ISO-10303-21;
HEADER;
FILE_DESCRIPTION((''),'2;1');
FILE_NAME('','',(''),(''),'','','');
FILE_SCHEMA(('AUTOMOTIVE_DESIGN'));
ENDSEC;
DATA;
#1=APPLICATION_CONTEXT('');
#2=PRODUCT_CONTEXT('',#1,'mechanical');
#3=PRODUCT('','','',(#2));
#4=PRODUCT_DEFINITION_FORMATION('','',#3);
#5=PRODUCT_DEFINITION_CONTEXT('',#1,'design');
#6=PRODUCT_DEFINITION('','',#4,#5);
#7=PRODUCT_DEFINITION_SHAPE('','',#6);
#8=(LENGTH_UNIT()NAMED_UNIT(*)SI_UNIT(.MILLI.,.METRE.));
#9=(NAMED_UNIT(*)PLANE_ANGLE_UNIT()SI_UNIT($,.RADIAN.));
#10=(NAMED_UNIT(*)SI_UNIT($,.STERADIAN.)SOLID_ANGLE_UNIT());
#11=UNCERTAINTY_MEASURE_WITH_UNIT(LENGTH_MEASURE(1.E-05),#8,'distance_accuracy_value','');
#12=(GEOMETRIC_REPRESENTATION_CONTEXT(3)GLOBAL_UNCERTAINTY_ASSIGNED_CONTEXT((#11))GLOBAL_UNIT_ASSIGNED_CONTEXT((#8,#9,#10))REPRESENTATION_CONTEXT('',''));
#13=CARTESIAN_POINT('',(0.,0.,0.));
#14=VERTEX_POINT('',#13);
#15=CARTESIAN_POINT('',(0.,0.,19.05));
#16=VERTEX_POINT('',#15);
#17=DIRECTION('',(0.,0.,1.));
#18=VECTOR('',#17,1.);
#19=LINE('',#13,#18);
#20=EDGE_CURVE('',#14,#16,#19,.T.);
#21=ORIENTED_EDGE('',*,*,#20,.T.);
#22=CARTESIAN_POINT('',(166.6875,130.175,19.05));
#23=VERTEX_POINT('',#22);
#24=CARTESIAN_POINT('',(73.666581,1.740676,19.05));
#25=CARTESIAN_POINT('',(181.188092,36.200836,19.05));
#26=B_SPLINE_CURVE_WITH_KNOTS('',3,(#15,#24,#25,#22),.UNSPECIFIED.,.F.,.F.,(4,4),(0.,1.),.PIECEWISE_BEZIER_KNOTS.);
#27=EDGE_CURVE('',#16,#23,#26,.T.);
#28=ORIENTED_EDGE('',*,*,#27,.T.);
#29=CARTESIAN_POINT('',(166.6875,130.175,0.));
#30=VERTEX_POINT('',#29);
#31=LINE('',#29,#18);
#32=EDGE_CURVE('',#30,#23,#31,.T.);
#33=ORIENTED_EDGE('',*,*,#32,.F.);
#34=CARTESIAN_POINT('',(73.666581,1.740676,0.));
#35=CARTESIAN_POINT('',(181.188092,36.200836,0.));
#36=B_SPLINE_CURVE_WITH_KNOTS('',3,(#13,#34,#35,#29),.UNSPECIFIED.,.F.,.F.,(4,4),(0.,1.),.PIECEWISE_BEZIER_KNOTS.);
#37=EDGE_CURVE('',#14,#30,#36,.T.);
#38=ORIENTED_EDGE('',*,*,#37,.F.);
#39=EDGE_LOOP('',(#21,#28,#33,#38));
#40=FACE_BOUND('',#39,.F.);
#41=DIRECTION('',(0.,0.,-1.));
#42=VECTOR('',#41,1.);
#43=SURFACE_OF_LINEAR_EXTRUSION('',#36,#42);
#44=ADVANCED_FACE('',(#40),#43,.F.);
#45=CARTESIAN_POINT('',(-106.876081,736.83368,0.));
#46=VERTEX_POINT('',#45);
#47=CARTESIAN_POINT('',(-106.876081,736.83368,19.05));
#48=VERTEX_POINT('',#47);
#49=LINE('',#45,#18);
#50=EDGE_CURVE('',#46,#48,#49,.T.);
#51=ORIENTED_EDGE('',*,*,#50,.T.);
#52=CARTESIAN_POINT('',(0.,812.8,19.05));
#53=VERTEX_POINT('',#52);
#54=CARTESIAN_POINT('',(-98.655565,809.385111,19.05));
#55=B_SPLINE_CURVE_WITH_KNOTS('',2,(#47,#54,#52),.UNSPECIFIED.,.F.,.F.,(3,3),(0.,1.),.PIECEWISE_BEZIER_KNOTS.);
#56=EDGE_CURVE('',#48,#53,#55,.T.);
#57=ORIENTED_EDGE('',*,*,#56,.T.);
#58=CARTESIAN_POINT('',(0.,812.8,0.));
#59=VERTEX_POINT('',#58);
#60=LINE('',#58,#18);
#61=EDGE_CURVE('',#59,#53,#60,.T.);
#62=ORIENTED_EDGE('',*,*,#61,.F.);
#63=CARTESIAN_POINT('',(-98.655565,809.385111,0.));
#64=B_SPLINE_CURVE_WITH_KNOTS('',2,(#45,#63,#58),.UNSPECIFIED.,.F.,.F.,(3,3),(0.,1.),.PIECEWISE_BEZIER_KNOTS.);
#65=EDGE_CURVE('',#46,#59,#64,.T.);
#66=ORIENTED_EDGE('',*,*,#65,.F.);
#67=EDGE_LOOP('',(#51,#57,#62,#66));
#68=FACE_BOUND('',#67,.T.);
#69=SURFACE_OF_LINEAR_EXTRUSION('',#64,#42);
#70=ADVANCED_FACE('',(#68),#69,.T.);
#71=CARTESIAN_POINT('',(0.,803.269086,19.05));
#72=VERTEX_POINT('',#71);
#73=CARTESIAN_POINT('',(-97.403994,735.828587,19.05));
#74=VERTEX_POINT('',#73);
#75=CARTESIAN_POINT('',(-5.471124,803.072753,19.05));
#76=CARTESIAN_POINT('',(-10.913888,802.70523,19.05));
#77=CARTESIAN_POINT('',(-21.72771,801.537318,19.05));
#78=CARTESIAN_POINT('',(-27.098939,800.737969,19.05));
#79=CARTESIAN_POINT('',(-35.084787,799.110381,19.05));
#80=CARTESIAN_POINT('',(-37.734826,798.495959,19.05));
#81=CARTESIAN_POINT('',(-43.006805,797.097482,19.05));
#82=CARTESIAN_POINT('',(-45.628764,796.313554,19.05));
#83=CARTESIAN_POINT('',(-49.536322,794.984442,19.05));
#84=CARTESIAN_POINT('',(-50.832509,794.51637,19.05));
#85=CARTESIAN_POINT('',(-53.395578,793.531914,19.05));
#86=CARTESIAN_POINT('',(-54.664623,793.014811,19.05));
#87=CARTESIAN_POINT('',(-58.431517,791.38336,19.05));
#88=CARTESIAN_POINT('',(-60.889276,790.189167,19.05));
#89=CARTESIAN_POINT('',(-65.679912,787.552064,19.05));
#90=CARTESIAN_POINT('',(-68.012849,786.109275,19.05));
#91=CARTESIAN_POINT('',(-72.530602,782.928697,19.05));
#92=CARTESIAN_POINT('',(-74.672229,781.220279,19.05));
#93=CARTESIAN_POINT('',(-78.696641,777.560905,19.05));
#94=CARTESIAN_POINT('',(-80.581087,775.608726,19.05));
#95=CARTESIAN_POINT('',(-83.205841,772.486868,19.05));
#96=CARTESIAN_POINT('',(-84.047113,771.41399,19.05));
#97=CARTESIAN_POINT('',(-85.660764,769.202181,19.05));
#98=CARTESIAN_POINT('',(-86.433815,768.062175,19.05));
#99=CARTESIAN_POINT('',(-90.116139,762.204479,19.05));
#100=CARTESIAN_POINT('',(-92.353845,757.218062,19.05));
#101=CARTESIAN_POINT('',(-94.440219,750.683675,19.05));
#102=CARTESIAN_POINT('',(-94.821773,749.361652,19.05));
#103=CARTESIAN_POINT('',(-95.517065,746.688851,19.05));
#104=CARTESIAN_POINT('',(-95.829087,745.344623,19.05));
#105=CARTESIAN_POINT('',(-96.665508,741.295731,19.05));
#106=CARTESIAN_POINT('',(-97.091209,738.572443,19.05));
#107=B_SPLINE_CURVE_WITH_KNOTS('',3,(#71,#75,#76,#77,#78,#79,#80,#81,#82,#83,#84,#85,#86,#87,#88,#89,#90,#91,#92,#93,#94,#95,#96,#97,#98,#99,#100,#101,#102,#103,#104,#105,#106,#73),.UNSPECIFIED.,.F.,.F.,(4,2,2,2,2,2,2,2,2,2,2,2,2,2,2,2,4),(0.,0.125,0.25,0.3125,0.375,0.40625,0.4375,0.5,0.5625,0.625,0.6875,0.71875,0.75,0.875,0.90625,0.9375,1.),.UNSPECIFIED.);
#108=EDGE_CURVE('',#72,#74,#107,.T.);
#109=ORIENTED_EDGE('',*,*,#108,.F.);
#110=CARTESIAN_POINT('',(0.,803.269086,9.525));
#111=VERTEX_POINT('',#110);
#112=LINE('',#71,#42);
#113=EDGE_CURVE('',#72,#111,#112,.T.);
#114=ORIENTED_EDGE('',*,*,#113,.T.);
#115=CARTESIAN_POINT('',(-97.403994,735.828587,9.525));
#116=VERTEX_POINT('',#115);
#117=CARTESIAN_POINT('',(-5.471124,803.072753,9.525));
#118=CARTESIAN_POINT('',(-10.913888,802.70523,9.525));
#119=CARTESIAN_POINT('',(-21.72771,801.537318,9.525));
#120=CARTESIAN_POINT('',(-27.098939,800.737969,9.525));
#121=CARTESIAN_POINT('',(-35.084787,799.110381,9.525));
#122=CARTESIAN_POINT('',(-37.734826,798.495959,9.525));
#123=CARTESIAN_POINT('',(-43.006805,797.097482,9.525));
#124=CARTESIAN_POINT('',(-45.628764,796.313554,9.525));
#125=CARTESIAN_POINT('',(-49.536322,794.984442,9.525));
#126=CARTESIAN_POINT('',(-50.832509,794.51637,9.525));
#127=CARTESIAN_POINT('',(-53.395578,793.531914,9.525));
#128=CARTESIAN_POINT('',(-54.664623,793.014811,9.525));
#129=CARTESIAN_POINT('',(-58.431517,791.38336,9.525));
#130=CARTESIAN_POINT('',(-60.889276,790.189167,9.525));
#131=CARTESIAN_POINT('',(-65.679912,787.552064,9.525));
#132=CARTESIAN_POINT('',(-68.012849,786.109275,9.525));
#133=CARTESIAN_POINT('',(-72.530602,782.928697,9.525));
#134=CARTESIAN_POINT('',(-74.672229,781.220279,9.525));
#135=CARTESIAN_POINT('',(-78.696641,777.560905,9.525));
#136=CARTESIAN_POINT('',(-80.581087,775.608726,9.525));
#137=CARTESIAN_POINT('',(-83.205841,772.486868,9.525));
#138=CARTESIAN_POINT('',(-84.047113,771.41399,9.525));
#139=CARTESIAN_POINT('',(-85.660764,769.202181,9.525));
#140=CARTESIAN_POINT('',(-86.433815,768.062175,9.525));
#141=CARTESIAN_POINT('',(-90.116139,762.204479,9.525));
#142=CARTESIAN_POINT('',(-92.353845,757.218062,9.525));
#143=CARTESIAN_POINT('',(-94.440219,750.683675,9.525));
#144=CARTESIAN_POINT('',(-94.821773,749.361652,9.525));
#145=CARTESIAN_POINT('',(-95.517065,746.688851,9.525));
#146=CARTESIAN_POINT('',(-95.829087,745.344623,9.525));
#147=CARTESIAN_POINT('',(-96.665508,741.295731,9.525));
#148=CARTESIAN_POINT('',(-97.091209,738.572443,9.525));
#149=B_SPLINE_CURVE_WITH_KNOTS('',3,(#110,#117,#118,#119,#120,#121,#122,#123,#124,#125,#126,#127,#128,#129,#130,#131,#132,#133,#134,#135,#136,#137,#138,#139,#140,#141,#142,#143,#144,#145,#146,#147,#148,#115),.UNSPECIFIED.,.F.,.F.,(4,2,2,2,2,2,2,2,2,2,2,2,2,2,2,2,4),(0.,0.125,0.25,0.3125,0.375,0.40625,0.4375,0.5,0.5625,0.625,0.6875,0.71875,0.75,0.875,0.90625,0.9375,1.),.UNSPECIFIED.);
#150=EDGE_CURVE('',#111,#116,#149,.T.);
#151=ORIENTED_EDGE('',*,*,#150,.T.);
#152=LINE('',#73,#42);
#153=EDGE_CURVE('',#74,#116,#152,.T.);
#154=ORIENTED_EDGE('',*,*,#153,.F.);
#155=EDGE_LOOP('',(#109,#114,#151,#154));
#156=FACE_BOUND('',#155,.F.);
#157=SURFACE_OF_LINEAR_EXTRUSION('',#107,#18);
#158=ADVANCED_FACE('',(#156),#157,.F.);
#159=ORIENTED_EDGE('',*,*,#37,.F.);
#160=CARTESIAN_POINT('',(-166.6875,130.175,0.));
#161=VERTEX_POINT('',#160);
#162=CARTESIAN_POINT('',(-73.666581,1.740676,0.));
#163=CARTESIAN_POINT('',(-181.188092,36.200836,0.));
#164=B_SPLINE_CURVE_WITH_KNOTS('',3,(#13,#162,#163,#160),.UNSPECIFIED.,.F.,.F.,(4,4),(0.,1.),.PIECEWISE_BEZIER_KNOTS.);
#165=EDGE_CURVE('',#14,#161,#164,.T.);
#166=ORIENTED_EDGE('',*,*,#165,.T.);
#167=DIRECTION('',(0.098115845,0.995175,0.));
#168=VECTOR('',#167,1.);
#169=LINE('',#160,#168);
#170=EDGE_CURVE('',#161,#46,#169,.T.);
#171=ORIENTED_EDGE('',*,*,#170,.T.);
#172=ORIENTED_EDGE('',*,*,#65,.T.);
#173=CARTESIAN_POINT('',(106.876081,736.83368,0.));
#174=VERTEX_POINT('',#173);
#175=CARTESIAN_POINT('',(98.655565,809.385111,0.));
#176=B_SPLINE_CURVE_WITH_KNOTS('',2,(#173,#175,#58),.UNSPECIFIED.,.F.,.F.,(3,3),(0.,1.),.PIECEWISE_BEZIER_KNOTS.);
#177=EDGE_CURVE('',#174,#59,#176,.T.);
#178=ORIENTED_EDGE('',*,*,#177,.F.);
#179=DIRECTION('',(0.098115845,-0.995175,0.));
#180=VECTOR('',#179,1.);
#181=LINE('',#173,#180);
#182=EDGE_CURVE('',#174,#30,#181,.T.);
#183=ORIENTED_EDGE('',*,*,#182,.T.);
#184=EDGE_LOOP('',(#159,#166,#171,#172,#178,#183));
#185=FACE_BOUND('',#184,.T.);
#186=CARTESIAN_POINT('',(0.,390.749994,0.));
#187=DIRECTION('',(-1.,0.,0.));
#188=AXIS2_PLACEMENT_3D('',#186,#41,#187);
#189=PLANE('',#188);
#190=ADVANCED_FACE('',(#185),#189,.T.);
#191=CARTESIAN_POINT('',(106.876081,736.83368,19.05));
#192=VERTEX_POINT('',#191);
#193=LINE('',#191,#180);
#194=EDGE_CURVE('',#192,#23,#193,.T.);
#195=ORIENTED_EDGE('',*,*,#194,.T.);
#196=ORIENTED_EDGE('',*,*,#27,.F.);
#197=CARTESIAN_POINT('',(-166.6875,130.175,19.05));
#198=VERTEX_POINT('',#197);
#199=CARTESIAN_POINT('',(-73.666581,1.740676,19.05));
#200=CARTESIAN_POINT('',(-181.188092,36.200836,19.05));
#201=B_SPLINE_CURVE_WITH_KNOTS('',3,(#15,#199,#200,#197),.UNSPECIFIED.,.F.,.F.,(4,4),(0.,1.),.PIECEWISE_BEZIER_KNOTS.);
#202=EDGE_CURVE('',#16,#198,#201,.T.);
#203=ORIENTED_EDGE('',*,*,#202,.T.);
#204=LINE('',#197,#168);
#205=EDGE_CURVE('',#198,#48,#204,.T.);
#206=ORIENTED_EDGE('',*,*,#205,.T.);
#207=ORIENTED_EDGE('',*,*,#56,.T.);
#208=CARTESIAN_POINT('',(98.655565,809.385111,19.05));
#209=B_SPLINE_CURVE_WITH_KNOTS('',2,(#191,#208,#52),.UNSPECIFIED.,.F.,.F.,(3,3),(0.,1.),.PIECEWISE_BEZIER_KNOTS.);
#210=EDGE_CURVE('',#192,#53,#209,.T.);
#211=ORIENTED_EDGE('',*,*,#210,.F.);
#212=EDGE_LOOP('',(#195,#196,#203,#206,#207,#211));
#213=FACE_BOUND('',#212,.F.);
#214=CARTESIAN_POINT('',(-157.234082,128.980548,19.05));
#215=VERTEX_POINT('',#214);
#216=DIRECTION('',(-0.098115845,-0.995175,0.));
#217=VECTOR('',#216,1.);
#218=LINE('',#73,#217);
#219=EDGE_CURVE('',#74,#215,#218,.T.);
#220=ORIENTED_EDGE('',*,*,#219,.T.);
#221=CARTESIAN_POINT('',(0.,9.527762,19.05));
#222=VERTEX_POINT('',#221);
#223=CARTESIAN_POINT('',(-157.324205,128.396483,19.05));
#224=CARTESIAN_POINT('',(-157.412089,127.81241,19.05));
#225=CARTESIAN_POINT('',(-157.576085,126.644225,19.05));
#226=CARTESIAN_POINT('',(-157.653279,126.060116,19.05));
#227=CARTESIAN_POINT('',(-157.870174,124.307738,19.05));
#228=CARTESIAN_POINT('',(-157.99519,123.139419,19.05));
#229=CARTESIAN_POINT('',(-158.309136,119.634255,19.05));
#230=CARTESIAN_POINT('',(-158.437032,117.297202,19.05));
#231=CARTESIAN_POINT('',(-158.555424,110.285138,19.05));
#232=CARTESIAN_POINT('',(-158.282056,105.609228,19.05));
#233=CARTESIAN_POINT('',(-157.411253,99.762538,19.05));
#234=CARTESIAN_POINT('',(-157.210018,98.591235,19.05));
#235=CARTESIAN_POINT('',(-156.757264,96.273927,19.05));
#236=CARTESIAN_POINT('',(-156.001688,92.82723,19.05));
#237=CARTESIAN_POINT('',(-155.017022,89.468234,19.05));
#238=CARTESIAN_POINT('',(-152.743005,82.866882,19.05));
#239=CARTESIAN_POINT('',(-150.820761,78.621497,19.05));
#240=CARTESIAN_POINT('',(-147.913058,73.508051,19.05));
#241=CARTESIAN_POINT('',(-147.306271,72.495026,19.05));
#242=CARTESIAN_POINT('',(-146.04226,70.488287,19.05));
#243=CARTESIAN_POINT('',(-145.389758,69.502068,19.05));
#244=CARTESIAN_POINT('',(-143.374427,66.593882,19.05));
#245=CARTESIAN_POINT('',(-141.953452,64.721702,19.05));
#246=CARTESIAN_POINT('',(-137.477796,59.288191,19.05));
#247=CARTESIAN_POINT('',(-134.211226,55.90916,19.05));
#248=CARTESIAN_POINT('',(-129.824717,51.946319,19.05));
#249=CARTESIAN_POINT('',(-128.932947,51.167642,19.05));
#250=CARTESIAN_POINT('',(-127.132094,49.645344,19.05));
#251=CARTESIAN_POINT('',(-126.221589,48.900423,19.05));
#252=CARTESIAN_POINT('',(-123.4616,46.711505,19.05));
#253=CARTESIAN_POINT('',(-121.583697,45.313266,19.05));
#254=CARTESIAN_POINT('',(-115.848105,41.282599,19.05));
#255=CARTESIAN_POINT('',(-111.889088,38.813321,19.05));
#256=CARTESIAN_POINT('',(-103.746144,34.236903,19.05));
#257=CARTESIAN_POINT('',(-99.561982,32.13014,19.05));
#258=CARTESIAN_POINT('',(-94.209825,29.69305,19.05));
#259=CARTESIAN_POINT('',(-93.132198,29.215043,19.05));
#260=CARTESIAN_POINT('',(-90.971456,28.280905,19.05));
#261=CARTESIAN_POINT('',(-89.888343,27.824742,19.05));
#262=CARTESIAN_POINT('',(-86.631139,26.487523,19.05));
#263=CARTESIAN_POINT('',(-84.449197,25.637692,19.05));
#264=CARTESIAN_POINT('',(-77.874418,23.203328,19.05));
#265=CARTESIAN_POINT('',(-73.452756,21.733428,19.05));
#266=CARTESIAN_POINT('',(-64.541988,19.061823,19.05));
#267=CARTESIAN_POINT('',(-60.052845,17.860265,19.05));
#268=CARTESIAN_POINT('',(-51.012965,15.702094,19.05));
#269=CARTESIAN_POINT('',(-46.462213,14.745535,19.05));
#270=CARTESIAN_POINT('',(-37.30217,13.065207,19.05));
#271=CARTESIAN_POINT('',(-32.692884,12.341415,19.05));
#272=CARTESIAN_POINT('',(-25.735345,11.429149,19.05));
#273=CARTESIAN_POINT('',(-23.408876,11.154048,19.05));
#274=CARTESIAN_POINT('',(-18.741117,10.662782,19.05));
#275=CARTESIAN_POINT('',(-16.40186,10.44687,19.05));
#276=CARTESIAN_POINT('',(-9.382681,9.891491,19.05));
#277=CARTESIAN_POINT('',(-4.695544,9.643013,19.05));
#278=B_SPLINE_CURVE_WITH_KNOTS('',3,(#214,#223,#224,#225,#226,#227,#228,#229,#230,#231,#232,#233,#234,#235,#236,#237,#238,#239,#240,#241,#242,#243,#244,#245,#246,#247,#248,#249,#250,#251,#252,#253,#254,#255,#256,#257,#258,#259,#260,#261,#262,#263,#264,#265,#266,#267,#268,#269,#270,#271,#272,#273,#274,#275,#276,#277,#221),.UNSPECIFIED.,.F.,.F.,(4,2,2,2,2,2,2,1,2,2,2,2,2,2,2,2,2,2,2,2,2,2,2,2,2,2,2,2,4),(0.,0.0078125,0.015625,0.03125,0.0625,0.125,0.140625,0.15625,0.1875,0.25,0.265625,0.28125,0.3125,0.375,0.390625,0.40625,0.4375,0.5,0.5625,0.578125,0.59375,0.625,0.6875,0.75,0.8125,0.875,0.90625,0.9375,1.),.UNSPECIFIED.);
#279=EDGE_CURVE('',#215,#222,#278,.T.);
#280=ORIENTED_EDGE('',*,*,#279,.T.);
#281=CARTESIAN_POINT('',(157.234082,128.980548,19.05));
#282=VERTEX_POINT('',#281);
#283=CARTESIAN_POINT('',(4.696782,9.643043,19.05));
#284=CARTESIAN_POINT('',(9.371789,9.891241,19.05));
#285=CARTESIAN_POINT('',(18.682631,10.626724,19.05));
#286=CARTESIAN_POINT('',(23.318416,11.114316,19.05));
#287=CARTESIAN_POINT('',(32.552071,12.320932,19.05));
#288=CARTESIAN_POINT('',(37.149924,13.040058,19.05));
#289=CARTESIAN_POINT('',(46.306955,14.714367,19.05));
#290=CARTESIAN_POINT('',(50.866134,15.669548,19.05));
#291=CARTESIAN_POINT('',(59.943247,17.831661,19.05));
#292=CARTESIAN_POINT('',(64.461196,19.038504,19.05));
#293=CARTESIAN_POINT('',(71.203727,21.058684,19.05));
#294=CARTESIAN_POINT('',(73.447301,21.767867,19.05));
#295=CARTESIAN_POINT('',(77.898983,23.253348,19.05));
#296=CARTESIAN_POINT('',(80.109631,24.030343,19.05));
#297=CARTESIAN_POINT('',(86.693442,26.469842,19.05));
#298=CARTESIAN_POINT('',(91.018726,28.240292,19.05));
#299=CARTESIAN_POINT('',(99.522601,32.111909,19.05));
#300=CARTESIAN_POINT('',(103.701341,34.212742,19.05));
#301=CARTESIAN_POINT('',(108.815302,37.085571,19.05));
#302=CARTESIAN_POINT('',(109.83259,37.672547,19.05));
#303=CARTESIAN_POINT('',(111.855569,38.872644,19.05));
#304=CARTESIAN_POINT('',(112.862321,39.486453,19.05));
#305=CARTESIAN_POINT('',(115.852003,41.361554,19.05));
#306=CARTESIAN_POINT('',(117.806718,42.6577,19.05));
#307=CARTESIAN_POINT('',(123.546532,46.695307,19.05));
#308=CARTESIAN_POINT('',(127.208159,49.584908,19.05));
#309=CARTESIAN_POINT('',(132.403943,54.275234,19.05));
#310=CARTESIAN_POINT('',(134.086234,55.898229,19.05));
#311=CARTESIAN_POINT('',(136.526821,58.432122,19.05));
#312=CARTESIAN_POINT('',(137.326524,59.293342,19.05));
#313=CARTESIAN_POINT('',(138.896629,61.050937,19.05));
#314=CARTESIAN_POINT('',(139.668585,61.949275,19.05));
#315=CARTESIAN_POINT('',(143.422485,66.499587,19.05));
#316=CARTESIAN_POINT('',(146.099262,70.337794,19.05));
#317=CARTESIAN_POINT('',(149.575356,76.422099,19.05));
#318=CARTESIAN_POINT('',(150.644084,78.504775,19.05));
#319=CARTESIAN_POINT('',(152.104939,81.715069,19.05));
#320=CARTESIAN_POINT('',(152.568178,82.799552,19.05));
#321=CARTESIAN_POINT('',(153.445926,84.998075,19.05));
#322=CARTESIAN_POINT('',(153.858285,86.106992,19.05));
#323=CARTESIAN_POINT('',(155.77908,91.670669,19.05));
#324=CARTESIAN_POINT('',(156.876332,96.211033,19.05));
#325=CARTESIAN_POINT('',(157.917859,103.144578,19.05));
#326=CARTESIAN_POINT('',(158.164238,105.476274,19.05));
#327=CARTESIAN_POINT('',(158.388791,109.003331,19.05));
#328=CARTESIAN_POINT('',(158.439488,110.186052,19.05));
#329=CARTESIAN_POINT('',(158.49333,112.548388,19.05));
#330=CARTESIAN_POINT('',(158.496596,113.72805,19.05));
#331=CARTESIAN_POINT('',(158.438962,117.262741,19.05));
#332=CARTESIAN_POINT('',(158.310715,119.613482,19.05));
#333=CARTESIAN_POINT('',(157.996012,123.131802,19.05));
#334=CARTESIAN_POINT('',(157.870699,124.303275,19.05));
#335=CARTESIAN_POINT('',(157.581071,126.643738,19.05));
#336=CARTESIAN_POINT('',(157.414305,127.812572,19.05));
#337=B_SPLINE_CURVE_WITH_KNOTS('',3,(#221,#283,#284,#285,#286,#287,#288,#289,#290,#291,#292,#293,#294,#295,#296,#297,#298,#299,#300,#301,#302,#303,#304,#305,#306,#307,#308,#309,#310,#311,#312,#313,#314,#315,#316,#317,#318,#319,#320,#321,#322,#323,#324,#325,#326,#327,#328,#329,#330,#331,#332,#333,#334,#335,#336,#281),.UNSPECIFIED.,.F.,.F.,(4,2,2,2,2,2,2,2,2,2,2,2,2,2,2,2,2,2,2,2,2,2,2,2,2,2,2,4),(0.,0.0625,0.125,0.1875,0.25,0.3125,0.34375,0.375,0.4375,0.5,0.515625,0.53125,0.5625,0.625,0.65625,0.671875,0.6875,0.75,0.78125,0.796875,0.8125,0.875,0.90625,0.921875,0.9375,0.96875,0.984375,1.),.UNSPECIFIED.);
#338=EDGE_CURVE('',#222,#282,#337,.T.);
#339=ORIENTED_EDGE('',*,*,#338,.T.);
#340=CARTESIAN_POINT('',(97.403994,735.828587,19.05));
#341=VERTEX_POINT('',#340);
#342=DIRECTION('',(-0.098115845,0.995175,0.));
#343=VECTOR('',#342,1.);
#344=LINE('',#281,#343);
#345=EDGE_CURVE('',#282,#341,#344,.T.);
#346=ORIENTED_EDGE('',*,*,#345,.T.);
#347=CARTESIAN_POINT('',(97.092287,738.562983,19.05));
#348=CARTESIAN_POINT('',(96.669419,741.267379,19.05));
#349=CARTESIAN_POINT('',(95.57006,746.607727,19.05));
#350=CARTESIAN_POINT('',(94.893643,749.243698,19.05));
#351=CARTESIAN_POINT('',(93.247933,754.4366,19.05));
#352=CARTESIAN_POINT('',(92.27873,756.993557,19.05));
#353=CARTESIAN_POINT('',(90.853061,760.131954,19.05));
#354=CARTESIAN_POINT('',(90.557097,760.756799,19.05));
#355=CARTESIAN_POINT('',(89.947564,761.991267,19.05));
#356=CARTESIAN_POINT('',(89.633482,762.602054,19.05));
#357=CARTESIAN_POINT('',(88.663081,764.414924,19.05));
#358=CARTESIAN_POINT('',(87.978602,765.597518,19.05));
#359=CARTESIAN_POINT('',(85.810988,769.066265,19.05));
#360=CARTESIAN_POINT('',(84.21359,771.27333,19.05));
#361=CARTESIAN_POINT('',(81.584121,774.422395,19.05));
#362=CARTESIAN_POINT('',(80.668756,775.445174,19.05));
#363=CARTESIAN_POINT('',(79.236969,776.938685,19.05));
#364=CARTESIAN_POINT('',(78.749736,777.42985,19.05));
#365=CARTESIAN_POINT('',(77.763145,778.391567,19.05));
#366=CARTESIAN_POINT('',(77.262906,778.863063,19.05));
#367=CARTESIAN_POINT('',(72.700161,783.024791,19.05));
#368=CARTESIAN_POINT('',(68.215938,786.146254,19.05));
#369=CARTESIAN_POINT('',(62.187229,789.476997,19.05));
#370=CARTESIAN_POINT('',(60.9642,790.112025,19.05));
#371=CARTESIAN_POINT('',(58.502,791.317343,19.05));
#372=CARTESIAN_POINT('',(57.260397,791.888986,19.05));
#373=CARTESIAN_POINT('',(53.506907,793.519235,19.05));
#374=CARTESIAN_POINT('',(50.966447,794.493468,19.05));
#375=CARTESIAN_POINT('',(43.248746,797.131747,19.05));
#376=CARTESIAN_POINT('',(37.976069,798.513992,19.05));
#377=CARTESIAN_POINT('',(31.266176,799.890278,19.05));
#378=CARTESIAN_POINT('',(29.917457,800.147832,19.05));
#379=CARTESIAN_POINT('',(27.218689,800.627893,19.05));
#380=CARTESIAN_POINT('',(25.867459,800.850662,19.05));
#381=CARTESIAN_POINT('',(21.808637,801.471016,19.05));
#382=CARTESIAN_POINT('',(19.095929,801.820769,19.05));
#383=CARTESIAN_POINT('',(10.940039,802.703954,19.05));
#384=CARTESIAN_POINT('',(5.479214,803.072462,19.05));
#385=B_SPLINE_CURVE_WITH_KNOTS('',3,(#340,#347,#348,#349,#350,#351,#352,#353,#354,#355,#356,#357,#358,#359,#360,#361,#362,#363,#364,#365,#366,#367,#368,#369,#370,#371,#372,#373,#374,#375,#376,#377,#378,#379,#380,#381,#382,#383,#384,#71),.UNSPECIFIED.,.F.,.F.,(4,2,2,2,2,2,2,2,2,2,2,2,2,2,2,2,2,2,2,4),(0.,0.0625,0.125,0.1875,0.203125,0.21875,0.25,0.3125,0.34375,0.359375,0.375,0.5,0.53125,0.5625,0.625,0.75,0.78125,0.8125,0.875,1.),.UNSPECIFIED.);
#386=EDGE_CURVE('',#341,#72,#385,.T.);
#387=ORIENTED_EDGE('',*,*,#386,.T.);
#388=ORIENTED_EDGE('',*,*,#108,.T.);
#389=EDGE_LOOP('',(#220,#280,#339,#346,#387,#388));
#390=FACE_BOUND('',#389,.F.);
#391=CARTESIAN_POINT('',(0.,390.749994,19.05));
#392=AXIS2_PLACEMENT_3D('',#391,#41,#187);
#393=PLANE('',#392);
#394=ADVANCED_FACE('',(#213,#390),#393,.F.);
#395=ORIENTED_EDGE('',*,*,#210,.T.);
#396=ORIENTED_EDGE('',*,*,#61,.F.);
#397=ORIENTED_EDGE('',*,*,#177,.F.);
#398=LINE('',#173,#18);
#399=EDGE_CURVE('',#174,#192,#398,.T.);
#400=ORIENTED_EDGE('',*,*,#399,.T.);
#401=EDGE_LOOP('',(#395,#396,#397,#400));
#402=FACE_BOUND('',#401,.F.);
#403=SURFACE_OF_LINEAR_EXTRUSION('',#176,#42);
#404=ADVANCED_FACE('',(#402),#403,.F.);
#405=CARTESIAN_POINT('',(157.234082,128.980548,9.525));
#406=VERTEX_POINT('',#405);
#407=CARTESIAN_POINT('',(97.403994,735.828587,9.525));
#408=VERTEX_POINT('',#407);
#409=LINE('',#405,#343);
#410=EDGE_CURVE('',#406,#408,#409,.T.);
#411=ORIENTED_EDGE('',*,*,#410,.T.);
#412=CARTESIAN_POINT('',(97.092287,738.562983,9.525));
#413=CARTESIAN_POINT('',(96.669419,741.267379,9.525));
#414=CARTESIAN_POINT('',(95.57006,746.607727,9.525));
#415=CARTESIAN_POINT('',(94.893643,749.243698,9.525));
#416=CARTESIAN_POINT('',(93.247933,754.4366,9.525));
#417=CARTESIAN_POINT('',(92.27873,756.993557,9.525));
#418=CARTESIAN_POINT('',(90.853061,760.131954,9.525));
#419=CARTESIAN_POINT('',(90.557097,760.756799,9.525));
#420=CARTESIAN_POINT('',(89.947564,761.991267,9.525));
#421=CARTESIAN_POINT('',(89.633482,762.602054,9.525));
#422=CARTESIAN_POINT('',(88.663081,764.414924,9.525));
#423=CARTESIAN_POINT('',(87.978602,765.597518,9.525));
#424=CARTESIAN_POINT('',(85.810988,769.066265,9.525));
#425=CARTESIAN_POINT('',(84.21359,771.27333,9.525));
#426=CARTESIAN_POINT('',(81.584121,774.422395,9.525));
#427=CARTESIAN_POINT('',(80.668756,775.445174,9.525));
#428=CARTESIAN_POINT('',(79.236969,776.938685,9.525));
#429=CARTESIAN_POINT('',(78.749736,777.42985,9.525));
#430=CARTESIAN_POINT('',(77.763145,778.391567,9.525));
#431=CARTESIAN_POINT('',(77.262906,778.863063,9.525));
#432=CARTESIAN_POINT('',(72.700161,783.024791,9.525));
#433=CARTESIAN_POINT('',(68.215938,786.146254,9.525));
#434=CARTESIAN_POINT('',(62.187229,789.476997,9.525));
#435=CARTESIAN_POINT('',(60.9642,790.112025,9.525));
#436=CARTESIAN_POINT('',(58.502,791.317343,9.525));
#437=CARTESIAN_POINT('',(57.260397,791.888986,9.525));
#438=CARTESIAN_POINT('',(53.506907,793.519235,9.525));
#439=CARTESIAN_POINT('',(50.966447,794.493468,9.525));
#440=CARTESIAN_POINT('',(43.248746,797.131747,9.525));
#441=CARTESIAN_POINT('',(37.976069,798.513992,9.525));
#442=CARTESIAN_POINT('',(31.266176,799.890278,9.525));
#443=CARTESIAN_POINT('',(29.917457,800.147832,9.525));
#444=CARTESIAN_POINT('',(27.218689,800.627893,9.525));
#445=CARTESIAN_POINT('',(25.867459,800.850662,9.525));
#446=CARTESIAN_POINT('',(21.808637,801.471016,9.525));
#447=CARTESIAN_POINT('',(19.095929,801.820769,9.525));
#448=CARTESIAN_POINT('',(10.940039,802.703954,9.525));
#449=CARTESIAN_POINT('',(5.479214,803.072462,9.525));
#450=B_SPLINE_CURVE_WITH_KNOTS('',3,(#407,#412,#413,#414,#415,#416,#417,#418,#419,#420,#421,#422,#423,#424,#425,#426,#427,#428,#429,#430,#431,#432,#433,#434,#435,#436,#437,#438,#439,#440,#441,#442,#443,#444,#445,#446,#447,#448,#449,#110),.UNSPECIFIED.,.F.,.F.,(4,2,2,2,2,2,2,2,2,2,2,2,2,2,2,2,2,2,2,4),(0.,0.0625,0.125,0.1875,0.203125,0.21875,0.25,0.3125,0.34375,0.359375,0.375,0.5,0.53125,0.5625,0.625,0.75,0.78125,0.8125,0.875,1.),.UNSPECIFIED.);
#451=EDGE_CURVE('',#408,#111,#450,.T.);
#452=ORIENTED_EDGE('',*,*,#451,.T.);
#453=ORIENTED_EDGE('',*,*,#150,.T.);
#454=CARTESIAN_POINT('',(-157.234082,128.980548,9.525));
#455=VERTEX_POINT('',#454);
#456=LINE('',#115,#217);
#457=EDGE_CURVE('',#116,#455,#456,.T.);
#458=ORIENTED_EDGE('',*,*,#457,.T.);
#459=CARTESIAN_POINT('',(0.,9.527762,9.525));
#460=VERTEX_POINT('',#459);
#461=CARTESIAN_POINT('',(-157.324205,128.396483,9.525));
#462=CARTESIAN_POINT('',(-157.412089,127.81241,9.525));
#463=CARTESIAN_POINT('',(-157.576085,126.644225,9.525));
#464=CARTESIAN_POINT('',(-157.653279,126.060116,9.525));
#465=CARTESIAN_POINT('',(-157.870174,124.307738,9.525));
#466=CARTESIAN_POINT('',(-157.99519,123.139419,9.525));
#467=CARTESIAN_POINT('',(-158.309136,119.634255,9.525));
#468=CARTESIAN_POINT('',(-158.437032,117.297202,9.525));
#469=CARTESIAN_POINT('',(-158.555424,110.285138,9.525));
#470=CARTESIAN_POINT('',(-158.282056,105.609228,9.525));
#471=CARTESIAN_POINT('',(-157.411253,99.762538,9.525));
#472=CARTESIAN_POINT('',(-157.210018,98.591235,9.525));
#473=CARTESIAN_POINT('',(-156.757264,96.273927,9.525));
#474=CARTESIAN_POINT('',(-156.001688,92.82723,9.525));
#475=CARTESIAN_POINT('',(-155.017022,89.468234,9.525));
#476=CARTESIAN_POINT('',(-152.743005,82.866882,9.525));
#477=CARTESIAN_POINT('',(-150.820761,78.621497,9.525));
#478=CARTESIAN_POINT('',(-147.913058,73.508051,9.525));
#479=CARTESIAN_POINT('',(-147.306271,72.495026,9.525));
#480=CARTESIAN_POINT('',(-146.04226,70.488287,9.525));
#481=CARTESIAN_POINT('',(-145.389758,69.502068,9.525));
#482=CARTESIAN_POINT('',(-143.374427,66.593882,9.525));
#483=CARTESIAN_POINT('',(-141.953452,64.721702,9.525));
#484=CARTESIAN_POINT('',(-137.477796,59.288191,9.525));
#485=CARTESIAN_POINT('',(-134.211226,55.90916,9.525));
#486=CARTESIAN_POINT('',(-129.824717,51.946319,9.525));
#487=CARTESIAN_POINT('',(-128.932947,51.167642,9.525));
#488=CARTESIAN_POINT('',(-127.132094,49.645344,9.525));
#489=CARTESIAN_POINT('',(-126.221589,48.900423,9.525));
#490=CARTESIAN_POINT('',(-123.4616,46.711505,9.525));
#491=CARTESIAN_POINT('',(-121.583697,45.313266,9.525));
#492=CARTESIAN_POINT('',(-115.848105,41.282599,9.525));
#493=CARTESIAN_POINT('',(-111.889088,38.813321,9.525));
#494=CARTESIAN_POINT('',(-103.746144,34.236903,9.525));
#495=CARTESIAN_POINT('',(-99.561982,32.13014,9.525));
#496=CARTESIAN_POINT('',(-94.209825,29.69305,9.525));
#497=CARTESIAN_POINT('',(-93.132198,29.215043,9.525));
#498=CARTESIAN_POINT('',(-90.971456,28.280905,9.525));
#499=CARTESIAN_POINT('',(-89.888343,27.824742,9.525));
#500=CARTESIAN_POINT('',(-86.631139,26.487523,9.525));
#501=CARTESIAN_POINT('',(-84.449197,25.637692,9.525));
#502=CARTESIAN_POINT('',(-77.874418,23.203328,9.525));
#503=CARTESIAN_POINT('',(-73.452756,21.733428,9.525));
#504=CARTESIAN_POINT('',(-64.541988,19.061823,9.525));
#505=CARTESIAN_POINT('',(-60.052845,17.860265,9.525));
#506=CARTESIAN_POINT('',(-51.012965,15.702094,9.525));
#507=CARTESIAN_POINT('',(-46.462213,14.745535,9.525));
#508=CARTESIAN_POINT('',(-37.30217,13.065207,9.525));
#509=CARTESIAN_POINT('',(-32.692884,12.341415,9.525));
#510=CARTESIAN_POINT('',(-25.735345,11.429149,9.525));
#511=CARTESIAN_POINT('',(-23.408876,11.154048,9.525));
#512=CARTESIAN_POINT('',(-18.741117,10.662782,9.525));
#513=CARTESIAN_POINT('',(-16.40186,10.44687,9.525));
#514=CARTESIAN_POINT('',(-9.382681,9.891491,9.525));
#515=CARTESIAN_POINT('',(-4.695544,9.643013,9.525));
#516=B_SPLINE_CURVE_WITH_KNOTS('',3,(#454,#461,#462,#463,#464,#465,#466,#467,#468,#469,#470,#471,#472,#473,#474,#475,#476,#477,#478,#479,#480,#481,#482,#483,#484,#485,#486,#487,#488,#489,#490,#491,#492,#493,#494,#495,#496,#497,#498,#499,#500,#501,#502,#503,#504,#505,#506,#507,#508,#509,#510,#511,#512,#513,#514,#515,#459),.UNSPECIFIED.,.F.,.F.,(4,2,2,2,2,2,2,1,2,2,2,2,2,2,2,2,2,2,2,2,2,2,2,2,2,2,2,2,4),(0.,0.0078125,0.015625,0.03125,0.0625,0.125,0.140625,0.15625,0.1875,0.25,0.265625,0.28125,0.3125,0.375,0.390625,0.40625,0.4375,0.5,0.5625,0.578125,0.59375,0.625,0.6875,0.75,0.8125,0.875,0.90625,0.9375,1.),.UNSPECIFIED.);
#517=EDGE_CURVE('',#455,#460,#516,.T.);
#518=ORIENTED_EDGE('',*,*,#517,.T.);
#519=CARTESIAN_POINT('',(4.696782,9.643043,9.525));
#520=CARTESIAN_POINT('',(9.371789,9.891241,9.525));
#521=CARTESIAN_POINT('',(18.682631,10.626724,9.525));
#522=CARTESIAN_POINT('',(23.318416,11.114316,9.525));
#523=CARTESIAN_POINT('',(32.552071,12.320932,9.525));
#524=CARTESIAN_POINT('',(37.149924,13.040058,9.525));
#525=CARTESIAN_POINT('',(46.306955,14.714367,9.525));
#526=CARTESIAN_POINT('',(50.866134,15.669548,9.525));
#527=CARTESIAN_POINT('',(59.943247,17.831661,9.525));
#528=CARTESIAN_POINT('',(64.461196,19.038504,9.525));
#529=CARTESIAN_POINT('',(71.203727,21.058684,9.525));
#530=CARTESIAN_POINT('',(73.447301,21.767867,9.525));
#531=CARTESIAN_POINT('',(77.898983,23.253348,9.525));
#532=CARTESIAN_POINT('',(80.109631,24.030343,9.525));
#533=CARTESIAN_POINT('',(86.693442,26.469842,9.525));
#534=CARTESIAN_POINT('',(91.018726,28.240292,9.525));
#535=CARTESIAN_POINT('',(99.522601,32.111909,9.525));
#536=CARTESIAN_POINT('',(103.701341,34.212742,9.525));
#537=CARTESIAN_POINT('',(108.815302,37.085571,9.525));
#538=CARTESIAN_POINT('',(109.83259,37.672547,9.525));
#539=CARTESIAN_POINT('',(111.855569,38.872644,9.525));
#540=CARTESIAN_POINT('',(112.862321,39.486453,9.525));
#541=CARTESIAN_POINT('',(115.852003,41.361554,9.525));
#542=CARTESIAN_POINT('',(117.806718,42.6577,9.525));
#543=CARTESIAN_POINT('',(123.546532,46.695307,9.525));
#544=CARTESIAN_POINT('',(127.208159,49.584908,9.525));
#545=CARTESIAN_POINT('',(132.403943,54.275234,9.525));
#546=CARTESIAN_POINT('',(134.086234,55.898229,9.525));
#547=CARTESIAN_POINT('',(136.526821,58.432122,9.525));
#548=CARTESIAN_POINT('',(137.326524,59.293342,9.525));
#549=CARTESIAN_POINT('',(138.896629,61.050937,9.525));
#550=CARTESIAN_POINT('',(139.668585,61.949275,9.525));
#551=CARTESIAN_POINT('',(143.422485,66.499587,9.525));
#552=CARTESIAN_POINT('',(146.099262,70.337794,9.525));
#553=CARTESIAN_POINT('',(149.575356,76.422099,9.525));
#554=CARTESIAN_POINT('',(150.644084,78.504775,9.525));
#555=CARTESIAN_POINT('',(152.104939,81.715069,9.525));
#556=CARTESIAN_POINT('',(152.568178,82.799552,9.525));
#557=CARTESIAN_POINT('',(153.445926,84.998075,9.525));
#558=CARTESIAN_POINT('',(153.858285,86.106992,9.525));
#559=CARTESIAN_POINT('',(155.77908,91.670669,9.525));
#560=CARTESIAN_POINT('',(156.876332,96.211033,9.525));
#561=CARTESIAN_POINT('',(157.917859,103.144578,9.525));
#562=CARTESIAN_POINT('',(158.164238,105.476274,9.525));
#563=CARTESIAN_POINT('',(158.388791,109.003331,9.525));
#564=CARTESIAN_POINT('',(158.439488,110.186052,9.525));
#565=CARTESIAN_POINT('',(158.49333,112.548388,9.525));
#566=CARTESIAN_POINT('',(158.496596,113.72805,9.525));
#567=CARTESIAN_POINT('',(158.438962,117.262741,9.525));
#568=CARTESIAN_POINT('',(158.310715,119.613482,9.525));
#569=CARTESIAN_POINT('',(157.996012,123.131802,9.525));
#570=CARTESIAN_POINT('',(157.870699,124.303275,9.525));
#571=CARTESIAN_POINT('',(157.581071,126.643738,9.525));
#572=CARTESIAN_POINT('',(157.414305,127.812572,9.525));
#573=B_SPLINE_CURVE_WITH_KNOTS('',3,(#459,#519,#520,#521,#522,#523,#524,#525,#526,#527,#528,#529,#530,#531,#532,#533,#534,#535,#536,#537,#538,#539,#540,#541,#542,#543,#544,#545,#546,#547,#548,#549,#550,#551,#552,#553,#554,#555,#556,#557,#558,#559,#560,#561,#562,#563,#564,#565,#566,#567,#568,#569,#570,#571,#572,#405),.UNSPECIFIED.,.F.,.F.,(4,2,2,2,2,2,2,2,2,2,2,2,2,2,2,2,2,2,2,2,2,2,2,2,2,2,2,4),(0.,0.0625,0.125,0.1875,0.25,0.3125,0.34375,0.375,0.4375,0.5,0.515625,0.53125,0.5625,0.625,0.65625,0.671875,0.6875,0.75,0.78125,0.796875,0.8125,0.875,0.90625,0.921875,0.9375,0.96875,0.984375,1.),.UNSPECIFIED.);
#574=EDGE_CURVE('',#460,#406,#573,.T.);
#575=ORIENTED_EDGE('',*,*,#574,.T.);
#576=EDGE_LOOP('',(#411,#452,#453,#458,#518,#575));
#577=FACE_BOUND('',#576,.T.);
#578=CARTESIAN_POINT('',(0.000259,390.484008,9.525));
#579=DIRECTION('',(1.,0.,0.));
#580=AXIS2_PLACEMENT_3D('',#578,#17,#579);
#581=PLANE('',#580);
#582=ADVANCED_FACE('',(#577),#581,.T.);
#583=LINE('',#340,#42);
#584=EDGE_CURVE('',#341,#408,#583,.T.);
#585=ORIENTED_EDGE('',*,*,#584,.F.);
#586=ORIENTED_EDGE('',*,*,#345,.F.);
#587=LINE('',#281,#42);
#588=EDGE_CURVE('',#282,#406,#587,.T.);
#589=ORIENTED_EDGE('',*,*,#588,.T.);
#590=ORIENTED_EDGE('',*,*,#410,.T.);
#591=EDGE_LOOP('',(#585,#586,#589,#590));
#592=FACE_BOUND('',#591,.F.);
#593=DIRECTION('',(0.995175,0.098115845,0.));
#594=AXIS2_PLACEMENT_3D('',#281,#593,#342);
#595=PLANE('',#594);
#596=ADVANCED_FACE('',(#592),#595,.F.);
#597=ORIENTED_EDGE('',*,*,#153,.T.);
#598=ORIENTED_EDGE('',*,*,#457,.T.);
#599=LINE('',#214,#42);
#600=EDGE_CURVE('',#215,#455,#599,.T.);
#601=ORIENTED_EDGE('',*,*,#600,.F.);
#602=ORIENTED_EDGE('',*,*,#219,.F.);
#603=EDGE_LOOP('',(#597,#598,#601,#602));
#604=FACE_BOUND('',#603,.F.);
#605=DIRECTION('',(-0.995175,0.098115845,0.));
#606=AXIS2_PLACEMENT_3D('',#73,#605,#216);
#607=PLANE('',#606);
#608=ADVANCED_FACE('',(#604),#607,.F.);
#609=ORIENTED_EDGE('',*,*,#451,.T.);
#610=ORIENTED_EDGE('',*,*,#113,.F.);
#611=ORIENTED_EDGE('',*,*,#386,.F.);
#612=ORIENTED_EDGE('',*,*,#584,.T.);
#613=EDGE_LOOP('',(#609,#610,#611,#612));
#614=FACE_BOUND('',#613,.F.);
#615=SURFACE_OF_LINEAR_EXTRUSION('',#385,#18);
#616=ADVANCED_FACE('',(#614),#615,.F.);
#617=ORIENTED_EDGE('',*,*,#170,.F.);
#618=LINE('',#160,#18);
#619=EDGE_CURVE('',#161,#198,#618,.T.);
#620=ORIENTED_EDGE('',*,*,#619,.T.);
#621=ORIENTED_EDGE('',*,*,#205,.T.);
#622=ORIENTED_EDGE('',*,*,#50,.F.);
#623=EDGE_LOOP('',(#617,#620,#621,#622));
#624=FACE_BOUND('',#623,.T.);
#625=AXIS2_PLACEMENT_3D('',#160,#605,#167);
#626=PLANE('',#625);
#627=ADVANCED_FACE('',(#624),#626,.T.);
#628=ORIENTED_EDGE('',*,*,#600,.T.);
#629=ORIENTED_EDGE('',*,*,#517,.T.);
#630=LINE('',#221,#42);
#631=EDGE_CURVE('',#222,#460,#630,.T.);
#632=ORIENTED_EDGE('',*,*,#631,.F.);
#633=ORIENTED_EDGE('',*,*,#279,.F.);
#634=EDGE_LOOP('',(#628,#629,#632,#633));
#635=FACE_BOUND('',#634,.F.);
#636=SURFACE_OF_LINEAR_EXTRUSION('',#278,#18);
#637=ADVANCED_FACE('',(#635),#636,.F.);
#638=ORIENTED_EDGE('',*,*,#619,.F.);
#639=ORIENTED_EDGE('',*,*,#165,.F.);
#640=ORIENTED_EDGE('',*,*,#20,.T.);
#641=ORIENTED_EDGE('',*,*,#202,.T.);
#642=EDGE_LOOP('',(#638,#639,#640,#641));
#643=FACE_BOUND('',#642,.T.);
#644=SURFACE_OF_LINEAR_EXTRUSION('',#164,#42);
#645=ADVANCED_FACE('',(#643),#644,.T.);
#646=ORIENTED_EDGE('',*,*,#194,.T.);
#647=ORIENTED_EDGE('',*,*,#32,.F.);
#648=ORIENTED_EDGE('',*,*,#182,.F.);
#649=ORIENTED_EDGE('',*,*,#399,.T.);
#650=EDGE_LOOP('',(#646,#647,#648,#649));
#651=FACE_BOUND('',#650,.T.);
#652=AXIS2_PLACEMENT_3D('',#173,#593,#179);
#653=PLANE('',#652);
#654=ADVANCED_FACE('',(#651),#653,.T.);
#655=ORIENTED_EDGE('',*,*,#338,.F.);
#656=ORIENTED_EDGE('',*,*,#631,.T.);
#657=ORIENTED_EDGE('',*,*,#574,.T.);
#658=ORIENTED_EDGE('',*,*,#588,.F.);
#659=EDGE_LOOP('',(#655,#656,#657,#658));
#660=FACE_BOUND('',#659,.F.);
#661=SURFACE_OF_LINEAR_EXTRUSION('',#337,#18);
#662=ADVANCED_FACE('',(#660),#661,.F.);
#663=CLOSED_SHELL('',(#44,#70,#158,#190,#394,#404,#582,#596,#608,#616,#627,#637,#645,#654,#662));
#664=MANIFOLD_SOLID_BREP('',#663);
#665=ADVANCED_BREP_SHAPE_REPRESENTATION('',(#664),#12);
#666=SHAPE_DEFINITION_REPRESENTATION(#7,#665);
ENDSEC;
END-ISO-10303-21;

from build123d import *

# Parameters (mm, degrees)
BOSS_EXTRUDE1_DEPTH = 19.05
CUT_EXTRUDE1_DEPTH  = 9.525


with BuildPart() as part:
    # Sketch2 → Boss-Extrude1 (new body)
    with BuildSketch(Plane.XY):
        with BuildLine():
            Line((-166.6875, 130.175), (-106.876080835, 736.833680097))
            add(Edge.make_bspline(
                [(-106.876080835, 736.833680097), (-98.655564568, 809.385111394), (0, 812.8)],
                knots=[0, 0, 0, 1, 1, 1], degree=2))
            add(Edge.make_bspline(
                [(106.876080835, 736.833680097), (98.655564568, 809.385111394), (0, 812.8)],
                knots=[0, 0, 0, 1, 1, 1], degree=2))
            Line((106.876080835, 736.833680097), (166.6875, 130.175))
            add(Edge.make_bspline(
                [(0, 0), (73.666580622, 1.740675992), (181.188092361, 36.200835609), (166.6875, 130.175)],
                knots=[0, 0, 0, 0, 1, 1, 1, 1], degree=3))
            add(Edge.make_bspline(
                [(0, 0), (-73.666580622, 1.740675992), (-181.188092361, 36.200835609), (-166.6875, 130.175)],
                knots=[0, 0, 0, 0, 1, 1, 1, 1], degree=3))
        make_face()
    extrude(amount=BOSS_EXTRUDE1_DEPTH)

    # Sketch4 → Cut-Extrude1 (cut)
    with BuildSketch(Plane.XY.offset(19.05)):
        with BuildLine():
            Line((-97.403993572, 735.828587026), (-157.234081882, 128.980548454))
            add(Edge.make_bspline(
                [(-157.234081882, 128.980548454), (-157.324205492, 128.396483281), (-157.412089483, 127.812410477), (-157.576084777, 126.644224751), (-157.653279282, 126.06011552), (-157.870174292, 124.307737773), (-157.995189913, 123.139419215), (-158.309135667, 119.634255327), (-158.437031706, 117.29720201), (-158.555423917, 110.285138008), (-158.282055898, 105.60922815), (-157.411253292, 99.762537833), (-157.210017909, 98.591234632), (-156.757264158, 96.273926752), (-156.001688417, 92.827229864), (-155.017022207, 89.468234028), (-152.743005414, 82.866882475), (-150.82076111, 78.621496729), (-147.913058291, 73.508050792), (-147.306271331, 72.4950265), (-146.042259928, 70.488286534), (-145.389757898, 69.50206831), (-143.374427295, 66.59388241), (-141.953452439, 64.721702461), (-137.477795564, 59.288190671), (-134.211225834, 55.909160224), (-129.824716649, 51.946319201), (-128.932947118, 51.167642375), (-127.132093683, 49.645344246), (-126.221588539, 48.900422844), (-123.461599805, 46.711504594), (-121.583697089, 45.313266475), (-115.848105381, 41.282598746), (-111.889088448, 38.81332115), (-103.746143975, 34.236903166), (-99.561981891, 32.130140428), (-94.209825099, 29.693050126), (-93.132197949, 29.215042748), (-90.971456085, 28.280905266), (-89.888342715, 27.824742202), (-86.631139254, 26.48752268), (-84.44919675, 25.6376924), (-77.874418426, 23.203328361), (-73.452755763, 21.733428424), (-64.541987933, 19.061822744), (-60.052845479, 17.860265278), (-51.012964961, 15.702093584), (-46.462212797, 14.745535421), (-37.302169602, 13.065206786), (-32.692883998, 12.341414728), (-25.735345382, 11.429148513), (-23.408876198, 11.154048031), (-18.7411174, 10.662782498), (-16.401859715, 10.446870289), (-9.382680965, 9.891490593), (-4.695544036, 9.643012505), (0, 9.52776174)],
                knots=[0, 0, 0, 0, 0.0078125, 0.0078125, 0.015625, 0.015625, 0.03125, 0.03125, 0.0625, 0.0625, 0.125, 0.125, 0.140625, 0.140625, 0.15625, 0.1875, 0.1875, 0.25, 0.25, 0.265625, 0.265625, 0.28125, 0.28125, 0.3125, 0.3125, 0.375, 0.375, 0.390625, 0.390625, 0.40625, 0.40625, 0.4375, 0.4375, 0.5, 0.5, 0.5625, 0.5625, 0.578125, 0.578125, 0.59375, 0.59375, 0.625, 0.625, 0.6875, 0.6875, 0.75, 0.75, 0.8125, 0.8125, 0.875, 0.875, 0.90625, 0.90625, 0.9375, 0.9375, 1, 1, 1, 1], degree=3))
            add(Edge.make_bspline(
                [(0, 9.52776174), (4.696782429, 9.643042901), (9.371788605, 9.891241348), (18.682630774, 10.626724118), (23.318416438, 11.114315633), (32.552071373, 12.320931698), (37.149923971, 13.040058014), (46.306955275, 14.714367272), (50.866134292, 15.669548315), (59.943247261, 17.831660883), (64.461195673, 19.038504147), (71.20372728, 21.058683944), (73.447300549, 21.767866857), (77.898983356, 23.253348365), (80.109631224, 24.030343068), (86.693442252, 26.469842463), (91.018725741, 28.240292259), (99.522601409, 32.111908605), (103.70134125, 34.212742248), (108.81530232, 37.085571172), (109.832590209, 37.672546502), (111.855568511, 38.872643767), (112.862320589, 39.486453403), (115.852002601, 41.361553617), (117.806717627, 42.657699597), (123.546532273, 46.69530685), (127.208159374, 49.584908122), (132.403942543, 54.275234083), (134.0862339, 55.898228847), (136.526821296, 58.432122427), (137.326523938, 59.293342382), (138.896628692, 61.050936516), (139.668584954, 61.949275112), (143.422485376, 66.499587265), (146.099261927, 70.337793886), (149.575356296, 76.4220986), (150.644084323, 78.504775138), (152.10493938, 81.715069485), (152.568177575, 82.799551968), (153.44592623, 84.998074695), (153.858285185, 86.106992021), (155.77907965, 91.670668847), (156.87633236, 96.211033443), (157.917859106, 103.144578031), (158.164237879, 105.476273711), (158.388791016, 109.003330668), (158.439487754, 110.186052077), (158.493329725, 112.548388418), (158.496596004, 113.728050186), (158.438962094, 117.262741174), (158.31071539, 119.613481568), (157.996011579, 123.131801583), (157.87069881, 124.303275057), (157.58107101, 126.643738225), (157.414305379, 127.812571858), (157.234081882, 128.980548454)],
                knots=[0, 0, 0, 0, 0.0625, 0.0625, 0.125, 0.125, 0.1875, 0.1875, 0.25, 0.25, 0.3125, 0.3125, 0.34375, 0.34375, 0.375, 0.375, 0.4375, 0.4375, 0.5, 0.5, 0.515625, 0.515625, 0.53125, 0.53125, 0.5625, 0.5625, 0.625, 0.625, 0.65625, 0.65625, 0.671875, 0.671875, 0.6875, 0.6875, 0.75, 0.75, 0.78125, 0.78125, 0.796875, 0.796875, 0.8125, 0.8125, 0.875, 0.875, 0.90625, 0.90625, 0.921875, 0.921875, 0.9375, 0.9375, 0.96875, 0.96875, 0.984375, 0.984375, 1, 1, 1, 1], degree=3))
            Line((157.234081882, 128.980548454), (97.403993572, 735.828587022))
            add(Edge.make_bspline(
                [(97.403993572, 735.828587022), (97.092286958, 738.562982934), (96.669418738, 741.267379451), (95.570059645, 746.607726854), (94.893642768, 749.243697709), (93.247932944, 754.436600394), (92.278730315, 756.993556598), (90.853060681, 760.13195437), (90.557097177, 760.756799005), (89.94756396, 761.991267361), (89.633481965, 762.602053668), (88.66308079, 764.414924295), (87.978602457, 765.597517573), (85.810987946, 769.066265293), (84.213589669, 771.273330454), (81.584120863, 774.422394534), (80.668756062, 775.44517415), (79.236968861, 776.938685261), (78.749736274, 777.429849509), (77.763144525, 778.391567332), (77.262906247, 778.863062984), (72.700160744, 783.024790933), (68.215938322, 786.146253506), (62.187228676, 789.476997053), (60.964200371, 790.112025219), (58.502000457, 791.317342862), (57.260396611, 791.888985895), (53.506907039, 793.519234755), (50.966447444, 794.493467918), (43.248745942, 797.131746553), (37.976068957, 798.513992185), (31.266175529, 799.890277732), (29.917456906, 800.147831744), (27.218689157, 800.627892818), (25.867458716, 800.850662293), (21.808637288, 801.471016253), (19.095929317, 801.820768942), (10.940039087, 802.703953619), (5.479213552, 803.072462364), (2e-09, 803.26908628)],
                knots=[0, 0, 0, 0, 0.0625, 0.0625, 0.125, 0.125, 0.1875, 0.1875, 0.203125, 0.203125, 0.21875, 0.21875, 0.25, 0.25, 0.3125, 0.3125, 0.34375, 0.34375, 0.359375, 0.359375, 0.375, 0.375, 0.5, 0.5, 0.53125, 0.53125, 0.5625, 0.5625, 0.625, 0.625, 0.75, 0.75, 0.78125, 0.78125, 0.8125, 0.8125, 0.875, 0.875, 1, 1, 1, 1], degree=3))
            add(Edge.make_bspline(
                [(2e-09, 803.26908628), (-5.471123606, 803.072752675), (-10.913888363, 802.705230434), (-21.727709567, 801.537317666), (-27.098938668, 800.737969365), (-35.084786769, 799.110381206), (-37.734826452, 798.495958833), (-43.006804741, 797.097481507), (-45.628764384, 796.313553549), (-49.536321772, 794.984442323), (-50.832509452, 794.516370139), (-53.395578467, 793.531913824), (-54.664623053, 793.014810614), (-58.431517441, 791.383359846), (-60.889276194, 790.189166552), (-65.679911837, 787.552063988), (-68.012848984, 786.109274725), (-72.530602319, 782.928697006), (-74.672229275, 781.220279014), (-78.696640654, 777.560904851), (-80.581086505, 775.608725668), (-83.205841084, 772.486867934), (-84.047113279, 771.413989968), (-85.660763906, 769.202180872), (-86.433815235, 768.062175102), (-90.116138831, 762.204478677), (-92.353845254, 757.218061553), (-94.440219005, 750.683674858), (-94.821772855, 749.361651688), (-95.517065206, 746.688851322), (-95.829087041, 745.344622952), (-96.665508178, 741.295731389), (-97.091208587, 738.572442767), (-97.403993572, 735.828587026)],
                knots=[0, 0, 0, 0, 0.125, 0.125, 0.25, 0.25, 0.3125, 0.3125, 0.375, 0.375, 0.40625, 0.40625, 0.4375, 0.4375, 0.5, 0.5, 0.5625, 0.5625, 0.625, 0.625, 0.6875, 0.6875, 0.71875, 0.71875, 0.75, 0.75, 0.875, 0.875, 0.90625, 0.90625, 0.9375, 0.9375, 1, 1, 1, 1], degree=3))
        make_face()
    extrude(amount=-CUT_EXTRUDE1_DEPTH, mode=Mode.SUBTRACT)


solid = part.part
